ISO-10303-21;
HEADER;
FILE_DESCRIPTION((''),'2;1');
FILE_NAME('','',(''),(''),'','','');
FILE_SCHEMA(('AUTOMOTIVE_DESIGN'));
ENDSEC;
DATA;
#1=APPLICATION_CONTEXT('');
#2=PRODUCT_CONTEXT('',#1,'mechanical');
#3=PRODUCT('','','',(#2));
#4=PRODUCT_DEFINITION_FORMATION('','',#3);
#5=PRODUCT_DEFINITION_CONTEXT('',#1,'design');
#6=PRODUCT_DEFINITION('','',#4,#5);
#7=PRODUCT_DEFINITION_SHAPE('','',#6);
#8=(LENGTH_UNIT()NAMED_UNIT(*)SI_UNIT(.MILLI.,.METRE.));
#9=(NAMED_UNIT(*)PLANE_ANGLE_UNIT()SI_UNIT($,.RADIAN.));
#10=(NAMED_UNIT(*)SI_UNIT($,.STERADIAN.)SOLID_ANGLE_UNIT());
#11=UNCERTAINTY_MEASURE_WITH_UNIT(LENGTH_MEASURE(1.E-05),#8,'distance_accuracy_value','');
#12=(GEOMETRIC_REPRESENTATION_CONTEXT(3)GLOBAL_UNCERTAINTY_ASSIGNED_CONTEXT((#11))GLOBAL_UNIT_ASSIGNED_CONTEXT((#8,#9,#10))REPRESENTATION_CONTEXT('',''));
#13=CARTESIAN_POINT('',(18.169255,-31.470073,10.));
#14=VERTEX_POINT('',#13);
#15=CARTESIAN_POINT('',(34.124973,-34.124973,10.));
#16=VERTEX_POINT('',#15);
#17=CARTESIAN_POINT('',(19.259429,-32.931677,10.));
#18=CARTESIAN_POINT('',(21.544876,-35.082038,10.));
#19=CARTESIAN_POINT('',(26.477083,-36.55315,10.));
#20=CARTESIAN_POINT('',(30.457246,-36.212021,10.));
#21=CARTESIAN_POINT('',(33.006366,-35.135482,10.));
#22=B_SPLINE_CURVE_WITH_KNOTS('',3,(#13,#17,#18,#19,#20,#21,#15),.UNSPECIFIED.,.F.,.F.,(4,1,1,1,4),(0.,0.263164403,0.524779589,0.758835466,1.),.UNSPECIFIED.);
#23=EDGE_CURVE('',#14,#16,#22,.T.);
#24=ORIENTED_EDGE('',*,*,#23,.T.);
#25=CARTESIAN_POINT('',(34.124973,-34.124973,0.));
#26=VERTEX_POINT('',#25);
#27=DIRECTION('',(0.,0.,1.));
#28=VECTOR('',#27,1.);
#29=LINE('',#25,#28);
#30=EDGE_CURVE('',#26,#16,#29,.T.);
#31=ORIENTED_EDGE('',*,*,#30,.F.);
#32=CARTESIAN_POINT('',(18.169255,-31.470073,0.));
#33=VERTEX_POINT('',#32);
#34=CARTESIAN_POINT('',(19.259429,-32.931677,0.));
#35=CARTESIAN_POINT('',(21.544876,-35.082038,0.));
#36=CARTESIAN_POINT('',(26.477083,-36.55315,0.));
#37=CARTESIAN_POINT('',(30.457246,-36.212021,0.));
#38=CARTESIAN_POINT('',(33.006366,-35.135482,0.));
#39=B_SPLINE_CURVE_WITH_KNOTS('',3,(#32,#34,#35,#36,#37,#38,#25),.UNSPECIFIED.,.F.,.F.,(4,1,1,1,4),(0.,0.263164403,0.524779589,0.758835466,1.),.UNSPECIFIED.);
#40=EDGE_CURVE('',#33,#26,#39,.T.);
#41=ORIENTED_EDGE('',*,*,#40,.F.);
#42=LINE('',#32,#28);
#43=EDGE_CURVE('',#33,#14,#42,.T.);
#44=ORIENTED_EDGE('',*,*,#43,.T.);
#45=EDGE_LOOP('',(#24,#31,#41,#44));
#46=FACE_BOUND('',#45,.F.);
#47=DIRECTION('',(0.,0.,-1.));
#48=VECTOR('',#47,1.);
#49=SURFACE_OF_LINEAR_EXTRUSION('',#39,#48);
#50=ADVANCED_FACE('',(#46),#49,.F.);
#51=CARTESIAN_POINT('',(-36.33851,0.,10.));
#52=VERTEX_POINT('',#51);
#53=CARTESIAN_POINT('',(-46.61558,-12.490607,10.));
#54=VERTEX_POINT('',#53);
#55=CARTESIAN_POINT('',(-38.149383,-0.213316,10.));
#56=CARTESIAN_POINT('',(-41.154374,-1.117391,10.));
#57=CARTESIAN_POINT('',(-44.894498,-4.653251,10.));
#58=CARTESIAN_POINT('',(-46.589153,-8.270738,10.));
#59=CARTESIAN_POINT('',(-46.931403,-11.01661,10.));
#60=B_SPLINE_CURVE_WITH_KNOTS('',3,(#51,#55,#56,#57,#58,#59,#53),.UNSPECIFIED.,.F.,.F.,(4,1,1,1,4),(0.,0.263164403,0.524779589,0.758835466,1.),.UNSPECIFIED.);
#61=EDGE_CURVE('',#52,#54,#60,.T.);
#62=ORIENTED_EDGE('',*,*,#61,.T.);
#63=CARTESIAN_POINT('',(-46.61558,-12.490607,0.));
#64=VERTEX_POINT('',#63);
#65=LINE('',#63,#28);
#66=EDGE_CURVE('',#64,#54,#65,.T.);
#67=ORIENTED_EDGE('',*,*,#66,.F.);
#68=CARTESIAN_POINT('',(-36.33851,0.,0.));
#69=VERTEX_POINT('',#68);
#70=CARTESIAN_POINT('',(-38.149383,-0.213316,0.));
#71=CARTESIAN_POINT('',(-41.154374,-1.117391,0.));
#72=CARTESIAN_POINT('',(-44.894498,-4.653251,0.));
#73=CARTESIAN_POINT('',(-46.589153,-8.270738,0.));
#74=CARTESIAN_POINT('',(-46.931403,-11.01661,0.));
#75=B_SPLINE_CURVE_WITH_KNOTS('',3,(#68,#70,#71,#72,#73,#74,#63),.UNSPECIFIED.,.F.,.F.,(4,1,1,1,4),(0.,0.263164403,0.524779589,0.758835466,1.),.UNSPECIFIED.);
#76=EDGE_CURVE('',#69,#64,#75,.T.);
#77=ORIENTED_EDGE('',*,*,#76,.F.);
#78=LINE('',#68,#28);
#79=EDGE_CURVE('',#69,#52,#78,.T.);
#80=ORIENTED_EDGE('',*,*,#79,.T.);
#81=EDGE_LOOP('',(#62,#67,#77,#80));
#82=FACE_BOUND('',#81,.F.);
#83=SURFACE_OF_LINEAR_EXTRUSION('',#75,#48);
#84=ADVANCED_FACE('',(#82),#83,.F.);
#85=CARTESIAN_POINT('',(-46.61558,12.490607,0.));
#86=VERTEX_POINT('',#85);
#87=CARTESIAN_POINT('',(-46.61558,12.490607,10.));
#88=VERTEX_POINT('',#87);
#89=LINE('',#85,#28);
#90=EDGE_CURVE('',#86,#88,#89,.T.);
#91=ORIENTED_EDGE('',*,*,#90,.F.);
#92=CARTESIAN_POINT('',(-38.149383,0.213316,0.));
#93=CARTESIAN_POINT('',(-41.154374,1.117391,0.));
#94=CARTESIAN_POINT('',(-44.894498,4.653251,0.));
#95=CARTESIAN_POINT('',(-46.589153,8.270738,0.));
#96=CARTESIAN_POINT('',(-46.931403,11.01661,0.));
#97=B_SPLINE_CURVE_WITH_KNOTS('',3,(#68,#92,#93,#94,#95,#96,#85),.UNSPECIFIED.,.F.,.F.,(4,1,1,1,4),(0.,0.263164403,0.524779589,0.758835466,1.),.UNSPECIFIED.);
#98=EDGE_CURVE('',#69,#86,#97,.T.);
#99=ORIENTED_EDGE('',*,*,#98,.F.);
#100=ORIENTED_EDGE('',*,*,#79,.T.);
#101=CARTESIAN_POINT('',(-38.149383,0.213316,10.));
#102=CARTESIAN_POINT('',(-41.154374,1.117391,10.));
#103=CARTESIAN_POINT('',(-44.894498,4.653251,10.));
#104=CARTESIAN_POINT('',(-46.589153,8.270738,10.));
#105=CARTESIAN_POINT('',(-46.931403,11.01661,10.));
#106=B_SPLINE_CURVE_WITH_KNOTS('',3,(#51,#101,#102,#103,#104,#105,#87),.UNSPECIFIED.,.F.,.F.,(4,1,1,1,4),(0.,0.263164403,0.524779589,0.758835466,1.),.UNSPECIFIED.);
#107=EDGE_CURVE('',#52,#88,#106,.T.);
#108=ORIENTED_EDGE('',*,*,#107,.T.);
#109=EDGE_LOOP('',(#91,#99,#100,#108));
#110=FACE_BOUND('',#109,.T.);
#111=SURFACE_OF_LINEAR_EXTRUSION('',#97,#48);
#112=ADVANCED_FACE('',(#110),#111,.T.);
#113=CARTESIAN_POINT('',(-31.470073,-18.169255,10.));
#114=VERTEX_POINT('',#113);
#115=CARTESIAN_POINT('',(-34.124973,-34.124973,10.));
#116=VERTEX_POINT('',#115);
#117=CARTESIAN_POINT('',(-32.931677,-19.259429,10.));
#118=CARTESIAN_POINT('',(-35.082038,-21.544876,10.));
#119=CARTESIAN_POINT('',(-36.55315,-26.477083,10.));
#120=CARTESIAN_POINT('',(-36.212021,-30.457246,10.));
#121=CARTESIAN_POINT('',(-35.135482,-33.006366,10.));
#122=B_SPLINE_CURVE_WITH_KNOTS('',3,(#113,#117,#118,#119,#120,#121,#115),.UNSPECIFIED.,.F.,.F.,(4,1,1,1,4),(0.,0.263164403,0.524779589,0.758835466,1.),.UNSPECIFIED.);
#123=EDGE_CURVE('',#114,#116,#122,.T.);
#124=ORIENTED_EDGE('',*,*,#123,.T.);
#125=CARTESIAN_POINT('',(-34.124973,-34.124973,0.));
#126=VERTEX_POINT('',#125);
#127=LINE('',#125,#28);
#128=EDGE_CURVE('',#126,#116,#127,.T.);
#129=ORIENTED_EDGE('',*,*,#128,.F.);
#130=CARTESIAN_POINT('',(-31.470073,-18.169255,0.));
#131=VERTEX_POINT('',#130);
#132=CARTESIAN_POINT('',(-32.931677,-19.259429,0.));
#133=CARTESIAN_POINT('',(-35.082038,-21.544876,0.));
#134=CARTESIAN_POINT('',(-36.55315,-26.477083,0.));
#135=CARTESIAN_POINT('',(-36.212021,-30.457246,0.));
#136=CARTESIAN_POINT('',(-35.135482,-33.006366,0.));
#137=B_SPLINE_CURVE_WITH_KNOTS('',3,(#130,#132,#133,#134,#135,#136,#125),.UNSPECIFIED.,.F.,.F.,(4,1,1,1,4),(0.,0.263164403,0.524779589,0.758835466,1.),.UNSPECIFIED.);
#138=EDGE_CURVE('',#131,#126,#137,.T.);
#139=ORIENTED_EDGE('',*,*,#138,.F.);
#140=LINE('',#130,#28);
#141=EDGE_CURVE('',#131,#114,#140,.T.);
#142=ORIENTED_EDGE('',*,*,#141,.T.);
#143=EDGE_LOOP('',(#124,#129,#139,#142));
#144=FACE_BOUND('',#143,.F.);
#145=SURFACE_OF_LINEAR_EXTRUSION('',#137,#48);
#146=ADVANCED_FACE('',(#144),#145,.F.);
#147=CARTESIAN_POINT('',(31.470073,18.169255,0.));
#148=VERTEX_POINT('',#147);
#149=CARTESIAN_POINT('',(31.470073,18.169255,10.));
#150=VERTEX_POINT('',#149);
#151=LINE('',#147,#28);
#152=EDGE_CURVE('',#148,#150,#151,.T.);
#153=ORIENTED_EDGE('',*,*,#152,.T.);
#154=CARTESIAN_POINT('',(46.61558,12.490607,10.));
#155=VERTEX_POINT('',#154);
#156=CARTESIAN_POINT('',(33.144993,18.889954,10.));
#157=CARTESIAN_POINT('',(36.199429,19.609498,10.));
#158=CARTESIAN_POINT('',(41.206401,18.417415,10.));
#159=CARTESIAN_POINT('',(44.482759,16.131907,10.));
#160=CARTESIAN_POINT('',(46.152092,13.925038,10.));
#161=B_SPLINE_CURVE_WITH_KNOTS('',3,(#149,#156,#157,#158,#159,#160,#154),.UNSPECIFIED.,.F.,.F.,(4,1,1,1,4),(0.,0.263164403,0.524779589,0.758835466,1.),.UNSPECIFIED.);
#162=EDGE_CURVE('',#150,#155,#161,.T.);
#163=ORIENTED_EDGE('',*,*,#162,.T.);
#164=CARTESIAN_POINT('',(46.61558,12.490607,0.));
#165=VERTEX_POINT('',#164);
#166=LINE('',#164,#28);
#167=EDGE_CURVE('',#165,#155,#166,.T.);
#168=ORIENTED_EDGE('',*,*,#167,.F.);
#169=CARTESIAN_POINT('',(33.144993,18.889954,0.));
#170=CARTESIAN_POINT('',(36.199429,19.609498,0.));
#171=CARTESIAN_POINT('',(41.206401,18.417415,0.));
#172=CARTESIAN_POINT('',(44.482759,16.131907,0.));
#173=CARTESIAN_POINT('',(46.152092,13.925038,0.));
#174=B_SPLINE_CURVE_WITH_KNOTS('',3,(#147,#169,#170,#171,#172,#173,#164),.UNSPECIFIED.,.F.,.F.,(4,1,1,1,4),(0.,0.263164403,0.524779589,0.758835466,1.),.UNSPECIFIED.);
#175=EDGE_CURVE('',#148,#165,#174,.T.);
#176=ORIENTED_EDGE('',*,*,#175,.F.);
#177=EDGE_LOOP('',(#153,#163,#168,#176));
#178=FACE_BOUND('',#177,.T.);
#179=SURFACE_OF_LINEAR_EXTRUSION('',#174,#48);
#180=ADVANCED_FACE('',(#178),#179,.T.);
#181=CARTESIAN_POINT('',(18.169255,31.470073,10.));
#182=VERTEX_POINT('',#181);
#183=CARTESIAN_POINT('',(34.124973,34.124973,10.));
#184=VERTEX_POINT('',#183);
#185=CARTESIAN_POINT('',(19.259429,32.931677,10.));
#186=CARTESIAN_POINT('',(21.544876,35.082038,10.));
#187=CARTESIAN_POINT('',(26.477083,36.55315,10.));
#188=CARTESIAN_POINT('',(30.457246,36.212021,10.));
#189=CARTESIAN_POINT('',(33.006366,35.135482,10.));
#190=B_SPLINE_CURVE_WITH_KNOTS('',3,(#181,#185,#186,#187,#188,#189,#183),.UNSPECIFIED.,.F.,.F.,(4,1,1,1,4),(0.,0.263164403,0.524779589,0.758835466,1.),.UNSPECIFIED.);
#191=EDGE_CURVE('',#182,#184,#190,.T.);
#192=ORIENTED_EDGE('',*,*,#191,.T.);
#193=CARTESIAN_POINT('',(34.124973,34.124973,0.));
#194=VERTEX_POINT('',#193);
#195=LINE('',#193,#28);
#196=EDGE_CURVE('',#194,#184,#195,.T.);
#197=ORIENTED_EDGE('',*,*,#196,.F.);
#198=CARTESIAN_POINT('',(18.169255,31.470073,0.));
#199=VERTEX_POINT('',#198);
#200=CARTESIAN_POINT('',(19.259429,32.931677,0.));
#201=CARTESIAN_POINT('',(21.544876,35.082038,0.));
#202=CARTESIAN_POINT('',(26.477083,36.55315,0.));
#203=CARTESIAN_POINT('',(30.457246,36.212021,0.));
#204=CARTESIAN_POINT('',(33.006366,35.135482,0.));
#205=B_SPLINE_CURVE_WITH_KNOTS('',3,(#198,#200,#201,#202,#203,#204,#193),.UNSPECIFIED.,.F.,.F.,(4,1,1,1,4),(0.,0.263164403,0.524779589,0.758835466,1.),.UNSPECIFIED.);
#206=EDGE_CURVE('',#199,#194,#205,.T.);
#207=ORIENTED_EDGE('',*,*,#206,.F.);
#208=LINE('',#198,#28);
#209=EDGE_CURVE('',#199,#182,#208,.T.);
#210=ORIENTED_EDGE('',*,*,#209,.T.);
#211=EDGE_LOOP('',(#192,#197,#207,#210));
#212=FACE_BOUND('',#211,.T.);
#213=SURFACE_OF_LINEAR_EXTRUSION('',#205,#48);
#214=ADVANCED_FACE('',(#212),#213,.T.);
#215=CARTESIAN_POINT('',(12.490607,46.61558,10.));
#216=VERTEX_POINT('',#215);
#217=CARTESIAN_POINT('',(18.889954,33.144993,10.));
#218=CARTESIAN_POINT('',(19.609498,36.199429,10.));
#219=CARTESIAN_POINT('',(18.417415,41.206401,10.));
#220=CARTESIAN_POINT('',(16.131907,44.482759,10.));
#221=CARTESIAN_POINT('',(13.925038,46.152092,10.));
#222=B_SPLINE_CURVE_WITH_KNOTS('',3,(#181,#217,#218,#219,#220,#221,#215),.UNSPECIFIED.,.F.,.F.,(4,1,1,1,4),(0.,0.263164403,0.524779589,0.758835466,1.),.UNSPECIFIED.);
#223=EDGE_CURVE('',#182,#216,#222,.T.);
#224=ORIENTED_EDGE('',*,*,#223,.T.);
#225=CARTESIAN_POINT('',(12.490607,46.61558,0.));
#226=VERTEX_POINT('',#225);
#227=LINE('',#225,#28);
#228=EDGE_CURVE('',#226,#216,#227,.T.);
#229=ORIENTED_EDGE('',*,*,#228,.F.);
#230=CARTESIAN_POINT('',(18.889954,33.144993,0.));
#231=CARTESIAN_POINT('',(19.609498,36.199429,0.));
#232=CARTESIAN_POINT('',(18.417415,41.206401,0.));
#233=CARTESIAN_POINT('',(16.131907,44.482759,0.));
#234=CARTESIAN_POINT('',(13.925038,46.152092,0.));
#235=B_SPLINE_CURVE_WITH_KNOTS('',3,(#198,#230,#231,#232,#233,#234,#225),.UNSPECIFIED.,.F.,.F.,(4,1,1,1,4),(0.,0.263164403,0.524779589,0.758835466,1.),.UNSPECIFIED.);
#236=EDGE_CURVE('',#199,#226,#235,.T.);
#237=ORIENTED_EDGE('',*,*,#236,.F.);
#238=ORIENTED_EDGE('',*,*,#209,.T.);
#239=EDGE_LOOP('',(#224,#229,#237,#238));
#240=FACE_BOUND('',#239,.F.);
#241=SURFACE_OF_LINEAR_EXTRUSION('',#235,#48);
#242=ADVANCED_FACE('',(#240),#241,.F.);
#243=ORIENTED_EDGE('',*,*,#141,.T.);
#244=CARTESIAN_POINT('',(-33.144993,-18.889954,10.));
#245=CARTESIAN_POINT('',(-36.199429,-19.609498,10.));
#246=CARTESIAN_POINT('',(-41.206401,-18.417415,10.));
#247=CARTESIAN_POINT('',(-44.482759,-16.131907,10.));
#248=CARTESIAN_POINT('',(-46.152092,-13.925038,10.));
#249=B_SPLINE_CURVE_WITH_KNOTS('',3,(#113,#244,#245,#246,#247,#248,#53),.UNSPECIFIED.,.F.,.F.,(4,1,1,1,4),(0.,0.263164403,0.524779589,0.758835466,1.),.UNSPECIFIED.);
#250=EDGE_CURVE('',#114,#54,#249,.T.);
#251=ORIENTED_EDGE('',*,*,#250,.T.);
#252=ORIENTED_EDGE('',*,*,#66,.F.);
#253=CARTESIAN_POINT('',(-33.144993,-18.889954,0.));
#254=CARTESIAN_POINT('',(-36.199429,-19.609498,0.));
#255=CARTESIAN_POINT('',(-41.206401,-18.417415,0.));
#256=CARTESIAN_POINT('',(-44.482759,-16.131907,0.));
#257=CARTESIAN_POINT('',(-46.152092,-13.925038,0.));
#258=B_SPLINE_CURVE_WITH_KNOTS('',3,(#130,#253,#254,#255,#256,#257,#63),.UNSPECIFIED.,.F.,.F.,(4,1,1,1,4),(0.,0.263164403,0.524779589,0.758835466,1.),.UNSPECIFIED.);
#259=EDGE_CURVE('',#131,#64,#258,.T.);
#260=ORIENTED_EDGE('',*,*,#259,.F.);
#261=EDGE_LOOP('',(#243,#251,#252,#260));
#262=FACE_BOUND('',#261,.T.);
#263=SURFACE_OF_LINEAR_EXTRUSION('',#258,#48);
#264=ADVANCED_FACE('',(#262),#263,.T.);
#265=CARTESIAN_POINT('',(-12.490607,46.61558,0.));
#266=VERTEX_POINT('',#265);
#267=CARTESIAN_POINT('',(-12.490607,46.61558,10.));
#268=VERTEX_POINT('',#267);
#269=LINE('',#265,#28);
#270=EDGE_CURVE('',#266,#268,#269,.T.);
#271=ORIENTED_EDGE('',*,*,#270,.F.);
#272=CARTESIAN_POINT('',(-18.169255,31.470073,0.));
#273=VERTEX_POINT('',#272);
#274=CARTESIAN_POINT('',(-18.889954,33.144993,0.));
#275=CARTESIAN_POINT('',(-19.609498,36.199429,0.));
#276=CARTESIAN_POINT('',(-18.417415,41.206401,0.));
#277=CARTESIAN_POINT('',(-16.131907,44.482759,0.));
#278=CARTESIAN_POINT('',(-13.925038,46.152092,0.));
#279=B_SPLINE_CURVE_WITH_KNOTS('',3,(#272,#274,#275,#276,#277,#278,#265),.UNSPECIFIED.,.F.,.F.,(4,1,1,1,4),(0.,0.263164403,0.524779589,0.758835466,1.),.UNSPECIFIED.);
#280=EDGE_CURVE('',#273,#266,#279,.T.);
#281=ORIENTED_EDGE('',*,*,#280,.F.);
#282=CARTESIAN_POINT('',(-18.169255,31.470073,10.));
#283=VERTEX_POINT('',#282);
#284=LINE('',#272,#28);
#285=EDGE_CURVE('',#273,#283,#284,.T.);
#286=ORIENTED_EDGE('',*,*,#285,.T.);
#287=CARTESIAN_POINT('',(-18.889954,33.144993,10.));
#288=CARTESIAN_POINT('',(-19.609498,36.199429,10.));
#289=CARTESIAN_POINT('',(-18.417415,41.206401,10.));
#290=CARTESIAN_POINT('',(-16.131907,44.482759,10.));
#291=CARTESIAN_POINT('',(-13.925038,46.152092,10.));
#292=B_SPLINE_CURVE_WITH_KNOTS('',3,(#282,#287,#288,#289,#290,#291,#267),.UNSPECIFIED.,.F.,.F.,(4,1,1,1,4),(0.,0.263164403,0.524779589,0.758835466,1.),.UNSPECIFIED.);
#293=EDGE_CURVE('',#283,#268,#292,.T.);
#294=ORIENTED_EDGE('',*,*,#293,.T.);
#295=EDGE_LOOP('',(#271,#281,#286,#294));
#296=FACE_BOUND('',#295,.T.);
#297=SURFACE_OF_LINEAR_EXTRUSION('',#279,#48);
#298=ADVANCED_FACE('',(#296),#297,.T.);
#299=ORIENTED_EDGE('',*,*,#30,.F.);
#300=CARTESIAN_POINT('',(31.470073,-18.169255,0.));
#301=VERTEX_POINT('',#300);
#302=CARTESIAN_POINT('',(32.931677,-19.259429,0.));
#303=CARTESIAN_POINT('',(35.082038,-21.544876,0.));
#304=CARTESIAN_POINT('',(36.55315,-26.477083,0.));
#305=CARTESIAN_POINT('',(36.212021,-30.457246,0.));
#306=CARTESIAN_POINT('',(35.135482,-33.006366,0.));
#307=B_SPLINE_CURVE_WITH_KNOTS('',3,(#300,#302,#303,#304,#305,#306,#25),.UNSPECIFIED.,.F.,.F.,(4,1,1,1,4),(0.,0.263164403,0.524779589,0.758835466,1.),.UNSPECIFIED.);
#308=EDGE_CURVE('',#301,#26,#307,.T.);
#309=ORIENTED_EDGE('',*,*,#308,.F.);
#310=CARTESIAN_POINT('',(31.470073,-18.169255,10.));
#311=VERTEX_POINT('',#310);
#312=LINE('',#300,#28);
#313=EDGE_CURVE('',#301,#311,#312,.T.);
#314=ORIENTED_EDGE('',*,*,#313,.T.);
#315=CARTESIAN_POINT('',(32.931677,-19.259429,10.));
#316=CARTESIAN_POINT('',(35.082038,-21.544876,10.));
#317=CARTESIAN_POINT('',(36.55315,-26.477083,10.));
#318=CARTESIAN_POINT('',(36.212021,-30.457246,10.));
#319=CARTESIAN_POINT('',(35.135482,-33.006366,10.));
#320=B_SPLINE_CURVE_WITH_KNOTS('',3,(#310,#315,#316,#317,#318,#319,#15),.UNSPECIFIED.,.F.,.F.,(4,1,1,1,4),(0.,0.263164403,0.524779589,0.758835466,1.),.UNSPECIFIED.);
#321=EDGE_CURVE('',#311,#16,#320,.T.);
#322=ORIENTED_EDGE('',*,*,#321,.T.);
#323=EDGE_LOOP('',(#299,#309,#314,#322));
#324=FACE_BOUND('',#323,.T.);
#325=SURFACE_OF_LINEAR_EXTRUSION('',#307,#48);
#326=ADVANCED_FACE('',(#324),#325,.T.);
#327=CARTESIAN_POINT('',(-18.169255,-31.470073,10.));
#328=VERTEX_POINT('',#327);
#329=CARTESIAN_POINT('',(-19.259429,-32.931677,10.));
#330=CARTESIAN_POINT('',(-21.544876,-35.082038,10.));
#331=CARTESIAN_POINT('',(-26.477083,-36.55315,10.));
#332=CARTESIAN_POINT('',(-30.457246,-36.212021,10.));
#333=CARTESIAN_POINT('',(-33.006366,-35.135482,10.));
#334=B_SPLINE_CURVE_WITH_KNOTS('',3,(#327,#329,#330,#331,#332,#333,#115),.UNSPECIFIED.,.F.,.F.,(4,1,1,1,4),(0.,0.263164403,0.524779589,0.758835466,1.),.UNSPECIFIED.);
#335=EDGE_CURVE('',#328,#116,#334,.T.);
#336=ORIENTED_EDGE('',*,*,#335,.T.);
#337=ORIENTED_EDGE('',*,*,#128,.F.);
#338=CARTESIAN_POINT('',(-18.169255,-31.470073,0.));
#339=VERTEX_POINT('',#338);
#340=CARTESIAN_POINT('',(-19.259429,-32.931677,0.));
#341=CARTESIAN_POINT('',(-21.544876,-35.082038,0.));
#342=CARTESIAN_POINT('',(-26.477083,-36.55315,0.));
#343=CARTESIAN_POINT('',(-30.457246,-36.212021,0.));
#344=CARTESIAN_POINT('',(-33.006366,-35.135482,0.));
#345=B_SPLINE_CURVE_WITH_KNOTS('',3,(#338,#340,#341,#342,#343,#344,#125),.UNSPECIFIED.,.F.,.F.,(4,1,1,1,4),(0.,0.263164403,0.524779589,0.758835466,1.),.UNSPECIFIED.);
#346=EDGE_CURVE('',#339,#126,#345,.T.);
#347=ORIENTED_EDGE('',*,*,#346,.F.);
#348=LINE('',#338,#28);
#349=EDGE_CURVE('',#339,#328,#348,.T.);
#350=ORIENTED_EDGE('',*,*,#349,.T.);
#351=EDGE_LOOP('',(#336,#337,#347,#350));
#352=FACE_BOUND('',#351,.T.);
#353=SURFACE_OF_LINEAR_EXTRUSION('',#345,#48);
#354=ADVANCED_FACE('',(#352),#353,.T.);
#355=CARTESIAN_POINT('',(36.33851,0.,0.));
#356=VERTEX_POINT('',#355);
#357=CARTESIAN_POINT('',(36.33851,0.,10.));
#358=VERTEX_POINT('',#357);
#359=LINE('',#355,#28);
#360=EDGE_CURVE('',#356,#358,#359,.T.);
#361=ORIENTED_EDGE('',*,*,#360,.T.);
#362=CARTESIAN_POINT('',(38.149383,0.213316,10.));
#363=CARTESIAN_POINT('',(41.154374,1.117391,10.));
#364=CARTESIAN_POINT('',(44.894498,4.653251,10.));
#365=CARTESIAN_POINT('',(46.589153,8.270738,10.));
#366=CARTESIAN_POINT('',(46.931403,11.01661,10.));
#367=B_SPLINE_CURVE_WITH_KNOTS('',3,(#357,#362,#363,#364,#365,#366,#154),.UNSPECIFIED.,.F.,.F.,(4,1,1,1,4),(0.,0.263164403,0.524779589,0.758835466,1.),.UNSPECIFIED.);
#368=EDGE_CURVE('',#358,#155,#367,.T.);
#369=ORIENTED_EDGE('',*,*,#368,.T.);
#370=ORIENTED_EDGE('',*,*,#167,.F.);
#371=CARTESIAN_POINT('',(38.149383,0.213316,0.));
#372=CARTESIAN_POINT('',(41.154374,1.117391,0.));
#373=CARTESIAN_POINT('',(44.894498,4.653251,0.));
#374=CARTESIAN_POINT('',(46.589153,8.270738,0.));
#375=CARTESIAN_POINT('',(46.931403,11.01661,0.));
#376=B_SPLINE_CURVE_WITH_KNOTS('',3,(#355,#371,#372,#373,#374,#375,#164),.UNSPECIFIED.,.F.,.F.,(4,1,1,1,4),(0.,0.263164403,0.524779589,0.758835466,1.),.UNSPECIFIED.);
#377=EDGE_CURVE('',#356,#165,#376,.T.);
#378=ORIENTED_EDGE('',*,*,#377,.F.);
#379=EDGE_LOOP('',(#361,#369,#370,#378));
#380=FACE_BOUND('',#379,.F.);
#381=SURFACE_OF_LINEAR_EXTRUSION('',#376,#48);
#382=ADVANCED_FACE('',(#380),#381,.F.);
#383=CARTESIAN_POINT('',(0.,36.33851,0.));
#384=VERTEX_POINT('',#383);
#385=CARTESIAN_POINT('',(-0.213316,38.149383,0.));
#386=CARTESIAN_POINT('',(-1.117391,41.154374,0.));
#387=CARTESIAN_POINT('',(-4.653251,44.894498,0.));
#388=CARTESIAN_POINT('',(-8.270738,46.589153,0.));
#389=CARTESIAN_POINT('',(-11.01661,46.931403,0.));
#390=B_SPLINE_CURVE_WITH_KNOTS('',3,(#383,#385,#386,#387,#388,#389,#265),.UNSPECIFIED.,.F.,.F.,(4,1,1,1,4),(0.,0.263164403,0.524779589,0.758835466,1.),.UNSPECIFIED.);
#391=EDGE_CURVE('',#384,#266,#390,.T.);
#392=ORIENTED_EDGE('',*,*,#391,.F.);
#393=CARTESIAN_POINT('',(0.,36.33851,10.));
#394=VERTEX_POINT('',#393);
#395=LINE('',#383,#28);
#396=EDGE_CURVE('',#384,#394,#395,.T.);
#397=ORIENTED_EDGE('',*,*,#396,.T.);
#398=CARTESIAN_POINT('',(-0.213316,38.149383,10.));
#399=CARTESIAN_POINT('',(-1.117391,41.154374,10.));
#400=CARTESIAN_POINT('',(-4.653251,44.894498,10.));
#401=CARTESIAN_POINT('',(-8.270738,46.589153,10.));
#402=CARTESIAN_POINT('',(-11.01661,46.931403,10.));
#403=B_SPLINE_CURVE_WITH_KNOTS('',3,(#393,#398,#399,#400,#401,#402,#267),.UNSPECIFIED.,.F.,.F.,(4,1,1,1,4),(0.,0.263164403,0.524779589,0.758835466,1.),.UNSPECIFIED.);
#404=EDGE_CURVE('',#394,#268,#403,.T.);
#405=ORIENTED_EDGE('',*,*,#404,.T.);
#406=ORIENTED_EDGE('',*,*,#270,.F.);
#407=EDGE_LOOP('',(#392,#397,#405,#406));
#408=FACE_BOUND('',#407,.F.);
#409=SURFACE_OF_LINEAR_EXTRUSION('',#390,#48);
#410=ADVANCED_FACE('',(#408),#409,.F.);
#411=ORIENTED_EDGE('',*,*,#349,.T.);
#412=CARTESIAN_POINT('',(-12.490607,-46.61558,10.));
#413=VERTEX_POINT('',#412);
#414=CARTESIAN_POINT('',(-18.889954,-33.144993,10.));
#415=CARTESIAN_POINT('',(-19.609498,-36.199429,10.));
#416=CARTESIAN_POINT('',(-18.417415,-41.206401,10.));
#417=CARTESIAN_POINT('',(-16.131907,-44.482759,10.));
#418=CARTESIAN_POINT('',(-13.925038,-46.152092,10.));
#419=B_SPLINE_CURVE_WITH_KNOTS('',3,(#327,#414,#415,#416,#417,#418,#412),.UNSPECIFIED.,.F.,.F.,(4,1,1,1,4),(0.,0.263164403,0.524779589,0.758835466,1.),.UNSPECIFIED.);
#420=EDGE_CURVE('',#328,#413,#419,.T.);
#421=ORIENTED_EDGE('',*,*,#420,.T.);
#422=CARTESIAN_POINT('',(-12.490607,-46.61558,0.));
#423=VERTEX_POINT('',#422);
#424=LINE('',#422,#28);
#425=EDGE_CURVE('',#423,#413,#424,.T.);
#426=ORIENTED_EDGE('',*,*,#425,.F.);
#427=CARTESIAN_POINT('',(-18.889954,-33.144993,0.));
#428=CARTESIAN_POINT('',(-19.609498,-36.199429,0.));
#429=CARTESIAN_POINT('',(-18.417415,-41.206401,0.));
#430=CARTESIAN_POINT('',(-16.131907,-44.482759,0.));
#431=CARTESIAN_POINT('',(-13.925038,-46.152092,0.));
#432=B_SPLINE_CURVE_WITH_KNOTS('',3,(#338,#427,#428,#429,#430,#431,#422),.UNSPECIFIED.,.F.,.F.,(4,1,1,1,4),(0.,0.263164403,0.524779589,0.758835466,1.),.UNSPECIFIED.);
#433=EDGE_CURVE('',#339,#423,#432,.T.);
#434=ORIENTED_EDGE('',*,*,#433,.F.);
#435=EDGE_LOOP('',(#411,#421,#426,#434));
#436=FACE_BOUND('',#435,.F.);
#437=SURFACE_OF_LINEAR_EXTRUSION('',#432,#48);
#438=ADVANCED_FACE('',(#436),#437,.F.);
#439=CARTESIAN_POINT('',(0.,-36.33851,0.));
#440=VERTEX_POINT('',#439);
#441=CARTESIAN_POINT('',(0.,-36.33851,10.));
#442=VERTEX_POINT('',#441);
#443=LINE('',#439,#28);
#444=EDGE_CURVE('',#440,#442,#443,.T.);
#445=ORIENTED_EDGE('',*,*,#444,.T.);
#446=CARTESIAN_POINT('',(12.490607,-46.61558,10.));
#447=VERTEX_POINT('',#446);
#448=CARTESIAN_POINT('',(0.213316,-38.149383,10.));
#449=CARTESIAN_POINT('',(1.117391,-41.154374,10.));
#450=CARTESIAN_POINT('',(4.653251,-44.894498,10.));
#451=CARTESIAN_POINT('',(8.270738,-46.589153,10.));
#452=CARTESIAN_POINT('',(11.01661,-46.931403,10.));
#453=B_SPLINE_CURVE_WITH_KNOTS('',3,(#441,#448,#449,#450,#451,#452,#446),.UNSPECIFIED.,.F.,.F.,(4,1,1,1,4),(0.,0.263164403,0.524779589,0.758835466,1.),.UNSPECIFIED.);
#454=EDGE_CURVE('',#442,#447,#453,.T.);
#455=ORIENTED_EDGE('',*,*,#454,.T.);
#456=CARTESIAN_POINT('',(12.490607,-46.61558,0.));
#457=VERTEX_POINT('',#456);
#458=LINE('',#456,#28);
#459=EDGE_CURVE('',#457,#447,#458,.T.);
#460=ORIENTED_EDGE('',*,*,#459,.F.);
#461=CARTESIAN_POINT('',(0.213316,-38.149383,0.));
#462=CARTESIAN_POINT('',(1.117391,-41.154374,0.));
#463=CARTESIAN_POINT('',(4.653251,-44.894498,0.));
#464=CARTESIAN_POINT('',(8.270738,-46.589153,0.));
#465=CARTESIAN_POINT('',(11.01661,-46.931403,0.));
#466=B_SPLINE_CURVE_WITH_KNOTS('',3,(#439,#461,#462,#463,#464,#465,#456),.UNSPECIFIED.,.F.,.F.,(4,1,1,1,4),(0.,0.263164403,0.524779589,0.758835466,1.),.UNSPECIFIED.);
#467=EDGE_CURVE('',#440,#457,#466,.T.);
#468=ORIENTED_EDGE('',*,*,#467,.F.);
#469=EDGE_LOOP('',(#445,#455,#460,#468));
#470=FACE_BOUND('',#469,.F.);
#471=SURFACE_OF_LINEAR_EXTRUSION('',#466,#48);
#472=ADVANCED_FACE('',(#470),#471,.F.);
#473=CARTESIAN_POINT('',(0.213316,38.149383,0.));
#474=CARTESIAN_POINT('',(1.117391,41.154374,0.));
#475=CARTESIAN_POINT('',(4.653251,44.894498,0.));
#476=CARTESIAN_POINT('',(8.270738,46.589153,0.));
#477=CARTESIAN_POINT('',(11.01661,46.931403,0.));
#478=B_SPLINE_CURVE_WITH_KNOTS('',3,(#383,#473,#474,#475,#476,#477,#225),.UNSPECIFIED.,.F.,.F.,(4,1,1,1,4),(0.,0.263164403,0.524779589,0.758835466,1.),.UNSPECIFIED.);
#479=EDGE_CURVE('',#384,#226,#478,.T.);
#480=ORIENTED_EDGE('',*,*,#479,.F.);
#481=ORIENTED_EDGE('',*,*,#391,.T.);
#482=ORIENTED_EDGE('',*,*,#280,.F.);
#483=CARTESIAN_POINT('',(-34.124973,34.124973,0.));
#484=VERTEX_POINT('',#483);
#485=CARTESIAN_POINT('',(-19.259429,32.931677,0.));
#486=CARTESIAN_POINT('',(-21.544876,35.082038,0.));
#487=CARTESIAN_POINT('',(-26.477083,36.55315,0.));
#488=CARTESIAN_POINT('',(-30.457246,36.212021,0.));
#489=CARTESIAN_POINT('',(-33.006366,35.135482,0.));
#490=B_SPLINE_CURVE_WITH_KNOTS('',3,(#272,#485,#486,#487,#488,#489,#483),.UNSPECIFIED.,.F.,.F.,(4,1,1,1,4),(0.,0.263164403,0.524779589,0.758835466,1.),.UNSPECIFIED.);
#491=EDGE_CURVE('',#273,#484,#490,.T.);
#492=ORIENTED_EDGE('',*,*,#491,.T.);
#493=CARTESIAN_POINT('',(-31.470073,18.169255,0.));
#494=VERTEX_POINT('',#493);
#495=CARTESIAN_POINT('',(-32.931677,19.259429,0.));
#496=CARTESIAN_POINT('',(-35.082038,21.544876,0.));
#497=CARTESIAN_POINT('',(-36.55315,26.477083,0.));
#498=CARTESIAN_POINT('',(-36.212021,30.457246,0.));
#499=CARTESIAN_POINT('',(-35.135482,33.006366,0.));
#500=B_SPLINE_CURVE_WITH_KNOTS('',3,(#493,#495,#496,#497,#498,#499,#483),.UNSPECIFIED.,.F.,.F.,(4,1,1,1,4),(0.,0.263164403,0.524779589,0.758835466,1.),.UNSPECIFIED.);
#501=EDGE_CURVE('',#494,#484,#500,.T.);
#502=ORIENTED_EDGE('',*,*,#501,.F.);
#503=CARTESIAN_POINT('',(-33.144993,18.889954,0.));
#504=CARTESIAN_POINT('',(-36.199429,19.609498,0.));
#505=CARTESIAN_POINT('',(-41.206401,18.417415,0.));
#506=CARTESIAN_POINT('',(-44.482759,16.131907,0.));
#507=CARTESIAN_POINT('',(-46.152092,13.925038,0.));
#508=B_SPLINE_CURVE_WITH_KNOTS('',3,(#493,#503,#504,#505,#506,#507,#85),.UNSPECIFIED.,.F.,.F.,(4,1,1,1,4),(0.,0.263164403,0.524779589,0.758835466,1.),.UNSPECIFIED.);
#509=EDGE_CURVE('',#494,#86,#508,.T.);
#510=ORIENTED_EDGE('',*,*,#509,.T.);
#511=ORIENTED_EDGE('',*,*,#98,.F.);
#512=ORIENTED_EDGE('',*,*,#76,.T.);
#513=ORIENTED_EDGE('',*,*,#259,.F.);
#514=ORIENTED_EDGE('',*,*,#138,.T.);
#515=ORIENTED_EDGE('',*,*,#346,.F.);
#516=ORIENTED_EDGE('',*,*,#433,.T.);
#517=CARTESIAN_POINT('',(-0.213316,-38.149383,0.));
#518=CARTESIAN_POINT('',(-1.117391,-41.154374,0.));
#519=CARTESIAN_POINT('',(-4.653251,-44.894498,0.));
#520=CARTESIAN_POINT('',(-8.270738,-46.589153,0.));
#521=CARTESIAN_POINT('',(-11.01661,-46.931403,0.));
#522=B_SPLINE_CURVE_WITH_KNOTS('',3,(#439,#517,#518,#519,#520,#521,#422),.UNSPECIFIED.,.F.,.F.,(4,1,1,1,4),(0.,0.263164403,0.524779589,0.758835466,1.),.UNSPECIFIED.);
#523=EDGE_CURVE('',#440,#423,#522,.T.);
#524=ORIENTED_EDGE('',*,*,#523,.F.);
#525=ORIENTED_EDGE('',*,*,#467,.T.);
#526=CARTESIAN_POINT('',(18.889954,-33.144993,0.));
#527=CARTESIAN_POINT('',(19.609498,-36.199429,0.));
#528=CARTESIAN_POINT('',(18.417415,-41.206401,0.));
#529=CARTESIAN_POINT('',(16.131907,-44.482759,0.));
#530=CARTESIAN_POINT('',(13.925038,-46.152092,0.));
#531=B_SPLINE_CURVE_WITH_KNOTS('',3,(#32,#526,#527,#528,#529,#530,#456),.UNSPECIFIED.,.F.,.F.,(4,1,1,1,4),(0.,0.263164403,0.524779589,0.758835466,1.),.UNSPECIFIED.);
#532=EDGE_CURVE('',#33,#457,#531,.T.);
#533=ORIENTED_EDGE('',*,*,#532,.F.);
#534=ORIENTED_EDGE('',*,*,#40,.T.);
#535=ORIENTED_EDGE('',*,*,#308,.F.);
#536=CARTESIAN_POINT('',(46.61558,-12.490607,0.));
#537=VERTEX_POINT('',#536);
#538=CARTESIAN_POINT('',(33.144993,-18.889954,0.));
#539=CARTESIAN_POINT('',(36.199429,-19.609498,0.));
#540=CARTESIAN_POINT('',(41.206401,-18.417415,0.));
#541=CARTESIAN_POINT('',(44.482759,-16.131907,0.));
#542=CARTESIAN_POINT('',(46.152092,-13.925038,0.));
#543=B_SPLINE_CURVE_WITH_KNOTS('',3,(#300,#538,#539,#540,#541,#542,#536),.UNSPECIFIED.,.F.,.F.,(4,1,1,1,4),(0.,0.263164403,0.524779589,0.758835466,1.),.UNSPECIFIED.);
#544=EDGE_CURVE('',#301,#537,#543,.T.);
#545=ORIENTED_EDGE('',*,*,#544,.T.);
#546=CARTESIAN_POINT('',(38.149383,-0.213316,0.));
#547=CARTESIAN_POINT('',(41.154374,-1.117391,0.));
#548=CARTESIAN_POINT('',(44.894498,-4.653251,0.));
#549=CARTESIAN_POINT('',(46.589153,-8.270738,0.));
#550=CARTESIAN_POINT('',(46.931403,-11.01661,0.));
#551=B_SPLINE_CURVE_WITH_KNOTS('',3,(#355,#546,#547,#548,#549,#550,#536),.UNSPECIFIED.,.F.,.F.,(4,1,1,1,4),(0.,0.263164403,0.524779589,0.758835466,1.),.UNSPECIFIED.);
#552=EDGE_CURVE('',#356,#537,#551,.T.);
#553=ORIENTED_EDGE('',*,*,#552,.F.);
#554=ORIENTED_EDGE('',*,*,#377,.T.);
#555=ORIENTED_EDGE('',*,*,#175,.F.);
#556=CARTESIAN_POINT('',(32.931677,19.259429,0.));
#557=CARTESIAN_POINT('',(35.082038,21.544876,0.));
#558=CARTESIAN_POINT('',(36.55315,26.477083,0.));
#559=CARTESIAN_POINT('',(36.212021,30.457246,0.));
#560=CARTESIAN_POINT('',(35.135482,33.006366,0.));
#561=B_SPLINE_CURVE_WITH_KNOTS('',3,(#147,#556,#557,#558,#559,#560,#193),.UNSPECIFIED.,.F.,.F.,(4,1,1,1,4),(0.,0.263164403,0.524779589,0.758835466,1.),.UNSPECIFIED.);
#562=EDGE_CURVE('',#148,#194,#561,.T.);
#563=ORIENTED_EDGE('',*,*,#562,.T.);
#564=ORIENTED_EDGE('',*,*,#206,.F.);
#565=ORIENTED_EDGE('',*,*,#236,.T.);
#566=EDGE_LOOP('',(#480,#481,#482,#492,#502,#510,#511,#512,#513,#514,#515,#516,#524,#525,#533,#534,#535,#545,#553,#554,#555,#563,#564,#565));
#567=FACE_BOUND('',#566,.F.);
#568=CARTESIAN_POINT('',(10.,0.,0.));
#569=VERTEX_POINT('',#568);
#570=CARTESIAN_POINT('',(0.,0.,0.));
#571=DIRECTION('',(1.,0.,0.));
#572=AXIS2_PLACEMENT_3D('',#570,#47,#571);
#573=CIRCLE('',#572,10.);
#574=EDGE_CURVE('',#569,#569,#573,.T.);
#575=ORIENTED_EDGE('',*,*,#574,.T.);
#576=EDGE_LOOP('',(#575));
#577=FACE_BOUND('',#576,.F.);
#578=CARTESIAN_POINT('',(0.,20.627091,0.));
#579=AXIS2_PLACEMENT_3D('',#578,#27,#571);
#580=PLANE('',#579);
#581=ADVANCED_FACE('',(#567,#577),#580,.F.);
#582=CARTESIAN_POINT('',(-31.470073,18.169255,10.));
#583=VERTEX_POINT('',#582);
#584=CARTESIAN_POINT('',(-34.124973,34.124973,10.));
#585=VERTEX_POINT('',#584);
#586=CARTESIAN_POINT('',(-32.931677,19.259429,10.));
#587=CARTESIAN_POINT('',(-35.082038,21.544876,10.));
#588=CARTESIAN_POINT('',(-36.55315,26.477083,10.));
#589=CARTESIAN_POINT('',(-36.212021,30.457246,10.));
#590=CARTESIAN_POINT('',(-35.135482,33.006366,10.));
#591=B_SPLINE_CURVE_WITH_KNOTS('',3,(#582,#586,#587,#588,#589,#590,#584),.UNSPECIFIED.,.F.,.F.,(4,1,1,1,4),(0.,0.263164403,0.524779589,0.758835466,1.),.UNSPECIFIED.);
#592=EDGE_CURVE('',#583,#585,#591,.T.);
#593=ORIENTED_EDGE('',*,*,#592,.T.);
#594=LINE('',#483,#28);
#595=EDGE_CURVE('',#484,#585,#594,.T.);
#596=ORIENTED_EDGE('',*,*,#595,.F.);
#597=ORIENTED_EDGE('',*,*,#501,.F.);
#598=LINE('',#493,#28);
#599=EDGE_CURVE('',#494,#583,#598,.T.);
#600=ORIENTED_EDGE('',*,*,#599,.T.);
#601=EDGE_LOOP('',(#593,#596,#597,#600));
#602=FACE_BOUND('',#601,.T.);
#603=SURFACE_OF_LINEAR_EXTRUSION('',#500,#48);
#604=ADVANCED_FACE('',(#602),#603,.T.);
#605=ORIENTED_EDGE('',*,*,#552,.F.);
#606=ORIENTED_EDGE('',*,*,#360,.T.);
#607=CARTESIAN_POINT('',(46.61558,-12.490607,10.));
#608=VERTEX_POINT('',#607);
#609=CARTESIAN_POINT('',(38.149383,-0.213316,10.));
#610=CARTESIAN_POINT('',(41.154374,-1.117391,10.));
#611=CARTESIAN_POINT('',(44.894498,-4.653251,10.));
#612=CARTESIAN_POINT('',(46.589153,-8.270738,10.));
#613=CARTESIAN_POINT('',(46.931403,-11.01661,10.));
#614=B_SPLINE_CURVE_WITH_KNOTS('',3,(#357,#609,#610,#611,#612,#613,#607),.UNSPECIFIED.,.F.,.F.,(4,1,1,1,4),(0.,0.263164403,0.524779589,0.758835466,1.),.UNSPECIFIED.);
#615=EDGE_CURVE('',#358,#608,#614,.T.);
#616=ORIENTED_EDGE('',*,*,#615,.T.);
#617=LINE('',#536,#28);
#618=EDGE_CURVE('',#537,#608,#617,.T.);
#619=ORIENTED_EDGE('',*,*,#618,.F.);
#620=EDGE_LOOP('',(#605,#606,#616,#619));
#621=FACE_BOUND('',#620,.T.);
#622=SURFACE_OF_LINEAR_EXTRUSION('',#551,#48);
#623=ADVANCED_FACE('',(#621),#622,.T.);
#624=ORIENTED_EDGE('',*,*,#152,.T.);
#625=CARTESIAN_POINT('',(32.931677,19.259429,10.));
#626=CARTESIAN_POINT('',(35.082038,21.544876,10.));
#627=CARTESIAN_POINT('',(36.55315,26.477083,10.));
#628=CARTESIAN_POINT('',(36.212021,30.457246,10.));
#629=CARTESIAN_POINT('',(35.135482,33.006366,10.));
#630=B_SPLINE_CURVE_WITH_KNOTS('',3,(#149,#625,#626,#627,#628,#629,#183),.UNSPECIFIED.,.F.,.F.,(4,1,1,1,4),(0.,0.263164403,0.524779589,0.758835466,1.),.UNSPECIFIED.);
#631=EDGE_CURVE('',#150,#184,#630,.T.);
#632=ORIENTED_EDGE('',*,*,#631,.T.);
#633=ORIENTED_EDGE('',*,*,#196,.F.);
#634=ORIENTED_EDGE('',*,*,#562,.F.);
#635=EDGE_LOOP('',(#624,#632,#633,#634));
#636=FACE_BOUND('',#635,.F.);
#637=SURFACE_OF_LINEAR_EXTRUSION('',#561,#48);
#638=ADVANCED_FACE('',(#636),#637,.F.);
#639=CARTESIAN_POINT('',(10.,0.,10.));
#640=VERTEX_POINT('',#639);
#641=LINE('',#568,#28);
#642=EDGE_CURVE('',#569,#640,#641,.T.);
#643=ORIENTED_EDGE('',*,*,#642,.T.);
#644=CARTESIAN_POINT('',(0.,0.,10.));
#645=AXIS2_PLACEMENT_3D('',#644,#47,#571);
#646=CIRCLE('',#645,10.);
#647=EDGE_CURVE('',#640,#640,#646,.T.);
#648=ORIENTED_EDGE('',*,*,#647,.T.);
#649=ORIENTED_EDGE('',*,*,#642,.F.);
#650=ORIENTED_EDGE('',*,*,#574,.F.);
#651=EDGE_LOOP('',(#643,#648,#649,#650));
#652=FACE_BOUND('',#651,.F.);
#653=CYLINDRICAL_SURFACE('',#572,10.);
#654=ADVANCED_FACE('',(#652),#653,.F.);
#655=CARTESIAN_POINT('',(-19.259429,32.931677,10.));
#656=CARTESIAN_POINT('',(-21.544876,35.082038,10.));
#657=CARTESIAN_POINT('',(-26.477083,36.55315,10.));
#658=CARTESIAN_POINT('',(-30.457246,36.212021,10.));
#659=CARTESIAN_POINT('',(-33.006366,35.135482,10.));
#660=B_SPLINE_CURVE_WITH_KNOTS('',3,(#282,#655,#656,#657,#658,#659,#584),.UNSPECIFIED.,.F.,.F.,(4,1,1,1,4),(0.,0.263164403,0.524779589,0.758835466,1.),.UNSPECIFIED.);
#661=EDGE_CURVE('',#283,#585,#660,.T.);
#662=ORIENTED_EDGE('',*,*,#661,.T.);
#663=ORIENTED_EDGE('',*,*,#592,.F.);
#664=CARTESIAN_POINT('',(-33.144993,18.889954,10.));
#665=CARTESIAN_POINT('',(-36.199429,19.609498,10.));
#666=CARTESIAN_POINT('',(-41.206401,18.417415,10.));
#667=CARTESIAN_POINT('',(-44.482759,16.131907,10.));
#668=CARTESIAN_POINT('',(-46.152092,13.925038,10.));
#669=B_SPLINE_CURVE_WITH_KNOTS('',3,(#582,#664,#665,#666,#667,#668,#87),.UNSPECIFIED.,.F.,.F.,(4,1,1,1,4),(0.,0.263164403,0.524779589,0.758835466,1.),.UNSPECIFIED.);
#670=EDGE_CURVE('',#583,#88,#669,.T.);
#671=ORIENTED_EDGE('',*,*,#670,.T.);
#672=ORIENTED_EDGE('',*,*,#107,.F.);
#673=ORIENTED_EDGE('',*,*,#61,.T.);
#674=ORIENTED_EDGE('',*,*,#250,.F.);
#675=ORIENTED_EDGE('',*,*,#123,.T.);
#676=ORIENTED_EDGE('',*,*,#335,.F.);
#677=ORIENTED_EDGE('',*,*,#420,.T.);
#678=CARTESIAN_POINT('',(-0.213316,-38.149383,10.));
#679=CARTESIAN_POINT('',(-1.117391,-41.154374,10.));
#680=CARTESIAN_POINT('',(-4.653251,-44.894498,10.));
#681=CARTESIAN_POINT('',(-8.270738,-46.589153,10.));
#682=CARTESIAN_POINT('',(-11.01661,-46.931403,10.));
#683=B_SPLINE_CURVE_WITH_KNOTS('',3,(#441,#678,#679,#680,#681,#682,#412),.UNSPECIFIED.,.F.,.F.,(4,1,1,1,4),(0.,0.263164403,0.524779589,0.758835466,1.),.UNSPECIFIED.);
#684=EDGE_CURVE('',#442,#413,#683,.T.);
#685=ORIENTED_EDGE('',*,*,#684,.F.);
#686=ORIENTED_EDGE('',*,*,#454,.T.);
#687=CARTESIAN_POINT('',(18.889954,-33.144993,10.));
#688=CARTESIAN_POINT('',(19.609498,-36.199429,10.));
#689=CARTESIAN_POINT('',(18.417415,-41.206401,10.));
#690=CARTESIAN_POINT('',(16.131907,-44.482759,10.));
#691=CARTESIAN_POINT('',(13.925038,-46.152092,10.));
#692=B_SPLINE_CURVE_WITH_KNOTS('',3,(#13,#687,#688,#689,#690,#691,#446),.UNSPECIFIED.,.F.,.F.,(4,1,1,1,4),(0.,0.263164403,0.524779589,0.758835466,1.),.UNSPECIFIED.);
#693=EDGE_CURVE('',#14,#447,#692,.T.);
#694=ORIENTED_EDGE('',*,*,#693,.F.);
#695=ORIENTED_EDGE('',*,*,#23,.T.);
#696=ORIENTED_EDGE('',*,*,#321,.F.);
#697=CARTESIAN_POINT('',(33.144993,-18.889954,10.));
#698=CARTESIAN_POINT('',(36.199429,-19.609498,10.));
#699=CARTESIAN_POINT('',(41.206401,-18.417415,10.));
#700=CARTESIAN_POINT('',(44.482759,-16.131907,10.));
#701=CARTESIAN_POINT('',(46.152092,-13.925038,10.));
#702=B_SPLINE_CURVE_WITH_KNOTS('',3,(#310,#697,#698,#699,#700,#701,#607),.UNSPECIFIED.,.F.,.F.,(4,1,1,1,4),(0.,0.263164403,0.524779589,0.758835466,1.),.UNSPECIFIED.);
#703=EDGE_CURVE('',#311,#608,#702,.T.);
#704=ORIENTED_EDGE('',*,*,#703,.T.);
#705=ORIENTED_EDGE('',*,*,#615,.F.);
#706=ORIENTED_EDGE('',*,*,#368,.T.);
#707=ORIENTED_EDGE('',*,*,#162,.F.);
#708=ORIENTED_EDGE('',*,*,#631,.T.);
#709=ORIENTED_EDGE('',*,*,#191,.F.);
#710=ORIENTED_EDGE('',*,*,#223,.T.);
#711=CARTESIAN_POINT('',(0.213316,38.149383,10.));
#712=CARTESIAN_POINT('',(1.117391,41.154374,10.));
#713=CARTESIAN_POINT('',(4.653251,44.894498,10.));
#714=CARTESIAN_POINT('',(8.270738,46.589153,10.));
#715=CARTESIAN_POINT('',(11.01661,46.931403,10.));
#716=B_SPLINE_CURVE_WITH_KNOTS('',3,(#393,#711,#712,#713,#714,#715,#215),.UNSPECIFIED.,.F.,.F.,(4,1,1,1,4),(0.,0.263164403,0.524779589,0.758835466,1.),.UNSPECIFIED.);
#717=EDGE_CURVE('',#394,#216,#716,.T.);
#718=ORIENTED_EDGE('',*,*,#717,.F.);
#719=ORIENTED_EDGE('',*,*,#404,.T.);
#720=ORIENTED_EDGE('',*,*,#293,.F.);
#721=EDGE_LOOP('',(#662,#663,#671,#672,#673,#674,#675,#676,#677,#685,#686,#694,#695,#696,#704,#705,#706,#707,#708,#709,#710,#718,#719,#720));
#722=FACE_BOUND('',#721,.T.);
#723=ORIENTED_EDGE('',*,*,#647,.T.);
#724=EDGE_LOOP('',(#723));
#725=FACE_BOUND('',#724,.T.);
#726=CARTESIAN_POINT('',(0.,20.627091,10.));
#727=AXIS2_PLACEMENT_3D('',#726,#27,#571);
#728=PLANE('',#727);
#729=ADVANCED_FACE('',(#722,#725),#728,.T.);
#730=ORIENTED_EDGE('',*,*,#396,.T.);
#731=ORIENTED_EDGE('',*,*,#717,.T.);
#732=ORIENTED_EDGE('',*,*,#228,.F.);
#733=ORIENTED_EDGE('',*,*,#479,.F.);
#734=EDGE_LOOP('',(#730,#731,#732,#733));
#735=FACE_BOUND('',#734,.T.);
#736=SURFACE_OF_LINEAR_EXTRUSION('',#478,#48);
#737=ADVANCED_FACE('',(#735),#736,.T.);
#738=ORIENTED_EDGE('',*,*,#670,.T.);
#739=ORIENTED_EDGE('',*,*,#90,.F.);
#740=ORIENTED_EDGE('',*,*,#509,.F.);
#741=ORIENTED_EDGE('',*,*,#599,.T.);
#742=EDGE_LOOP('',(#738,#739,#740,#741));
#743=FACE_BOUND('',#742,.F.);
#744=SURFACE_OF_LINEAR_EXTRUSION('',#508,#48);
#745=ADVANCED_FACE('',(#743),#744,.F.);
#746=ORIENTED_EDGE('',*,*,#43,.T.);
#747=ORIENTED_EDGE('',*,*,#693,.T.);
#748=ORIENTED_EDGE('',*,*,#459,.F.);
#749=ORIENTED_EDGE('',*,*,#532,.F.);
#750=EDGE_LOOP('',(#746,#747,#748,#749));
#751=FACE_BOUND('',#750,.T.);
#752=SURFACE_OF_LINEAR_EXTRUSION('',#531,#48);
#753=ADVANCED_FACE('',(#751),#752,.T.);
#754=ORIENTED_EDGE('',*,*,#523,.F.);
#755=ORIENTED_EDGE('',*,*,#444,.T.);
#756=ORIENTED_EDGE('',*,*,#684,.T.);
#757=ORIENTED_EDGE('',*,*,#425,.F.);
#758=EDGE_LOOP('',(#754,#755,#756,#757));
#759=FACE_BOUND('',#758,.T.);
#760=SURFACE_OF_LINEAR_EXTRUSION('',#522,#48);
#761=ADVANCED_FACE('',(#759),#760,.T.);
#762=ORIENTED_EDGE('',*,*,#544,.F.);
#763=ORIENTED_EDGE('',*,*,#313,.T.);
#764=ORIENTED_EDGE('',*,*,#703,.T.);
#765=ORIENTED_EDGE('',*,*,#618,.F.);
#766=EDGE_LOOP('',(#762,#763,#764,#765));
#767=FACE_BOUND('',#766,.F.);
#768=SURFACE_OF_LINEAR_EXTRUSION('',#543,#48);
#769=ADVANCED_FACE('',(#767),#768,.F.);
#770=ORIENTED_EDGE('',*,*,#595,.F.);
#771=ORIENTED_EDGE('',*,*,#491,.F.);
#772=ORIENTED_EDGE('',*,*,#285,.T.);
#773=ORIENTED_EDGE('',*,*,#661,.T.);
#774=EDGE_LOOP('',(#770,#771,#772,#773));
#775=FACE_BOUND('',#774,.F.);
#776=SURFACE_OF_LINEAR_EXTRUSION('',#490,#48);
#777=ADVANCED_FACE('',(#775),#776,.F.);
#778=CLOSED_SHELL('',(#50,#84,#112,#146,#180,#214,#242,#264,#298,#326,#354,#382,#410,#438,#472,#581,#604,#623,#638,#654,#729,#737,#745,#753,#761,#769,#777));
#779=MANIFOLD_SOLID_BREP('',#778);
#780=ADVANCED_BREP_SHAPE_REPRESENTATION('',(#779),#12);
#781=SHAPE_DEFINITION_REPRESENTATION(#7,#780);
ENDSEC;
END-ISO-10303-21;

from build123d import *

# Parameters (mm, degrees)
F1_DEPTH = 10


with BuildPart() as f1:
    # F0 (on Top) → F1 (new body)
    with BuildSketch(Plane.XY):
        with BuildLine():
            ThreePointArc((-10, 0), (0, 10), (10, 0))
            Line((10, 0), (36.3385102814, 0))
            add(Edge.make_bspline(
                [(36.3385102814, 0), (38.1493832545, 0.2133160809), (41.1543741544, 1.1173907107), (44.8944975107, 4.6532514581), (46.5891533047, 8.2707380904), (46.9314032298, 11.0166099485), (46.6155803767, 12.4906071166)],
                knots=[0, 0, 0, 0, 0.2631644028, 0.5247795892, 0.7588354663, 1, 1, 1, 1], degree=3))
            add(Edge.make_bspline(
                [(31.4700730394, 18.1692551407), (33.1449930775, 18.8899544822), (36.1994288499, 19.6094983358), (41.2064010634, 18.4174147824), (44.4827593479, 16.131907358), (46.1520924066, 13.9250375359), (46.6155803767, 12.4906071166)],
                knots=[0, 0, 0, 0, 0.2631644028, 0.5247795892, 0.7588354663, 1, 1, 1, 1], degree=3))
            add(Edge.make_bspline(
                [(31.4700730394, 18.1692551407), (32.9316769966, 19.2594287723), (35.0820381392, 21.5448758186), (36.5531496053, 26.4770827283), (36.2120212575, 30.4572459467), (35.135482458, 33.0063656939), (34.1249732601, 34.1249732601)],
                knots=[0, 0, 0, 0, 0.2631644028, 0.5247795892, 0.7588354663, 1, 1, 1, 1], degree=3))
            add(Edge.make_bspline(
                [(18.1692551407, 31.4700730394), (19.2594287723, 32.9316769966), (21.5448758186, 35.0820381392), (26.4770827283, 36.5531496053), (30.4572459467, 36.2120212575), (33.0063656939, 35.135482458), (34.1249732601, 34.1249732601)],
                knots=[0, 0, 0, 0, 0.2631644028, 0.5247795892, 0.7588354663, 1, 1, 1, 1], degree=3))
            add(Edge.make_bspline(
                [(18.1692551407, 31.4700730394), (18.8899544822, 33.1449930775), (19.6094983358, 36.1994288499), (18.4174147824, 41.2064010634), (16.131907358, 44.4827593479), (13.9250375359, 46.1520924066), (12.4906071166, 46.6155803767)],
                knots=[0, 0, 0, 0, 0.2631644028, 0.5247795892, 0.7588354663, 1, 1, 1, 1], degree=3))
            add(Edge.make_bspline(
                [(0, 36.3385102814), (0.2133160809, 38.1493832545), (1.1173907107, 41.1543741544), (4.6532514581, 44.8944975107), (8.2707380904, 46.5891533047), (11.0166099485, 46.9314032298), (12.4906071166, 46.6155803767)],
                knots=[0, 0, 0, 0, 0.2631644028, 0.5247795892, 0.7588354663, 1, 1, 1, 1], degree=3))
            add(Edge.make_bspline(
                [(0, 36.3385102814), (-0.2133160809, 38.1493832545), (-1.1173907107, 41.1543741544), (-4.6532514581, 44.8944975107), (-8.2707380904, 46.5891533047), (-11.0166099485, 46.9314032298), (-12.4906071166, 46.6155803767)],
                knots=[0, 0, 0, 0, 0.2631644028, 0.5247795892, 0.7588354663, 1, 1, 1, 1], degree=3))
            add(Edge.make_bspline(
                [(-18.1692551407, 31.4700730394), (-18.8899544822, 33.1449930775), (-19.6094983358, 36.1994288499), (-18.4174147824, 41.2064010634), (-16.131907358, 44.4827593479), (-13.9250375359, 46.1520924066), (-12.4906071166, 46.6155803767)],
                knots=[0, 0, 0, 0, 0.2631644028, 0.5247795892, 0.7588354663, 1, 1, 1, 1], degree=3))
            add(Edge.make_bspline(
                [(-18.1692551407, 31.4700730394), (-19.2594287723, 32.9316769966), (-21.5448758186, 35.0820381392), (-26.4770827283, 36.5531496053), (-30.4572459467, 36.2120212575), (-33.0063656939, 35.135482458), (-34.1249732601, 34.1249732601)],
                knots=[0, 0, 0, 0, 0.2631644028, 0.5247795892, 0.7588354663, 1, 1, 1, 1], degree=3))
            add(Edge.make_bspline(
                [(-31.4700730394, 18.1692551407), (-32.9316769966, 19.2594287723), (-35.0820381392, 21.5448758186), (-36.5531496053, 26.4770827283), (-36.2120212575, 30.4572459467), (-35.135482458, 33.0063656939), (-34.1249732601, 34.1249732601)],
                knots=[0, 0, 0, 0, 0.2631644028, 0.5247795892, 0.7588354663, 1, 1, 1, 1], degree=3))
            add(Edge.make_bspline(
                [(-31.4700730394, 18.1692551407), (-33.1449930775, 18.8899544822), (-36.1994288499, 19.6094983358), (-41.2064010634, 18.4174147824), (-44.4827593479, 16.131907358), (-46.1520924066, 13.9250375359), (-46.6155803767, 12.4906071166)],
                knots=[0, 0, 0, 0, 0.2631644028, 0.5247795892, 0.7588354663, 1, 1, 1, 1], degree=3))
            add(Edge.make_bspline(
                [(-36.3385102814, 0), (-38.1493832545, 0.2133160809), (-41.1543741544, 1.1173907107), (-44.8944975107, 4.6532514581), (-46.5891533047, 8.2707380904), (-46.9314032298, 11.0166099485), (-46.6155803767, 12.4906071166)],
                knots=[0, 0, 0, 0, 0.2631644028, 0.5247795892, 0.7588354663, 1, 1, 1, 1], degree=3))
            Line((-36.3385102814, 0), (-10, 0))
        make_face()
        with BuildLine():
            Line((36.3385102814, 0), (10, 0))
            ThreePointArc((10, 0), (0, -10), (-10, 0))
            Line((-10, 0), (-36.3385102814, 0))
            add(Edge.make_bspline(
                [(-36.3385102814, 0), (-38.1493832545, -0.2133160809), (-41.1543741544, -1.1173907107), (-44.8944975107, -4.6532514581), (-46.5891533047, -8.2707380904), (-46.9314032298, -11.0166099485), (-46.6155803767, -12.4906071166)],
                knots=[0, 0, 0, 0, 0.2631644028, 0.5247795892, 0.7588354663, 1, 1, 1, 1], degree=3))
            add(Edge.make_bspline(
                [(-31.4700730394, -18.1692551407), (-33.1449930775, -18.8899544822), (-36.1994288499, -19.6094983358), (-41.2064010634, -18.4174147824), (-44.4827593479, -16.131907358), (-46.1520924066, -13.9250375359), (-46.6155803767, -12.4906071166)],
                knots=[0, 0, 0, 0, 0.2631644028, 0.5247795892, 0.7588354663, 1, 1, 1, 1], degree=3))
            add(Edge.make_bspline(
                [(-31.4700730394, -18.1692551407), (-32.9316769966, -19.2594287723), (-35.0820381392, -21.5448758186), (-36.5531496053, -26.4770827283), (-36.2120212575, -30.4572459467), (-35.135482458, -33.0063656939), (-34.1249732601, -34.1249732601)],
                knots=[0, 0, 0, 0, 0.2631644028, 0.5247795892, 0.7588354663, 1, 1, 1, 1], degree=3))
            add(Edge.make_bspline(
                [(-18.1692551407, -31.4700730394), (-19.2594287723, -32.9316769966), (-21.5448758186, -35.0820381392), (-26.4770827283, -36.5531496053), (-30.4572459467, -36.2120212575), (-33.0063656939, -35.135482458), (-34.1249732601, -34.1249732601)],
                knots=[0, 0, 0, 0, 0.2631644028, 0.5247795892, 0.7588354663, 1, 1, 1, 1], degree=3))
            add(Edge.make_bspline(
                [(-18.1692551407, -31.4700730394), (-18.8899544822, -33.1449930775), (-19.6094983358, -36.1994288499), (-18.4174147824, -41.2064010634), (-16.131907358, -44.4827593479), (-13.9250375359, -46.1520924066), (-12.4906071166, -46.6155803767)],
                knots=[0, 0, 0, 0, 0.2631644028, 0.5247795892, 0.7588354663, 1, 1, 1, 1], degree=3))
            add(Edge.make_bspline(
                [(0, -36.3385102814), (-0.2133160809, -38.1493832545), (-1.1173907107, -41.1543741544), (-4.6532514581, -44.8944975107), (-8.2707380904, -46.5891533047), (-11.0166099485, -46.9314032298), (-12.4906071166, -46.6155803767)],
                knots=[0, 0, 0, 0, 0.2631644028, 0.5247795892, 0.7588354663, 1, 1, 1, 1], degree=3))
            add(Edge.make_bspline(
                [(0, -36.3385102814), (0.2133160809, -38.1493832545), (1.1173907107, -41.1543741544), (4.6532514581, -44.8944975107), (8.2707380904, -46.5891533047), (11.0166099485, -46.9314032298), (12.4906071166, -46.6155803767)],
                knots=[0, 0, 0, 0, 0.2631644028, 0.5247795892, 0.7588354663, 1, 1, 1, 1], degree=3))
            add(Edge.make_bspline(
                [(18.1692551407, -31.4700730394), (18.8899544822, -33.1449930775), (19.6094983358, -36.1994288499), (18.4174147824, -41.2064010634), (16.131907358, -44.4827593479), (13.9250375359, -46.1520924066), (12.4906071166, -46.6155803767)],
                knots=[0, 0, 0, 0, 0.2631644028, 0.5247795892, 0.7588354663, 1, 1, 1, 1], degree=3))
            add(Edge.make_bspline(
                [(18.1692551407, -31.4700730394), (19.2594287723, -32.9316769966), (21.5448758186, -35.0820381392), (26.4770827283, -36.5531496053), (30.4572459467, -36.2120212575), (33.0063656939, -35.135482458), (34.1249732601, -34.1249732601)],
                knots=[0, 0, 0, 0, 0.2631644028, 0.5247795892, 0.7588354663, 1, 1, 1, 1], degree=3))
            add(Edge.make_bspline(
                [(31.4700730394, -18.1692551407), (32.9316769966, -19.2594287723), (35.0820381392, -21.5448758186), (36.5531496053, -26.4770827283), (36.2120212575, -30.4572459467), (35.135482458, -33.0063656939), (34.1249732601, -34.1249732601)],
                knots=[0, 0, 0, 0, 0.2631644028, 0.5247795892, 0.7588354663, 1, 1, 1, 1], degree=3))
            add(Edge.make_bspline(
                [(31.4700730394, -18.1692551407), (33.1449930775, -18.8899544822), (36.1994288499, -19.6094983358), (41.2064010634, -18.4174147824), (44.4827593479, -16.131907358), (46.1520924066, -13.9250375359), (46.6155803767, -12.4906071166)],
                knots=[0, 0, 0, 0, 0.2631644028, 0.5247795892, 0.7588354663, 1, 1, 1, 1], degree=3))
            add(Edge.make_bspline(
                [(36.3385102814, 0), (38.1493832545, -0.2133160809), (41.1543741544, -1.1173907107), (44.8944975107, -4.6532514581), (46.5891533047, -8.2707380904), (46.9314032298, -11.0166099485), (46.6155803767, -12.4906071166)],
                knots=[0, 0, 0, 0, 0.2631644028, 0.5247795892, 0.7588354663, 1, 1, 1, 1], degree=3))
        make_face()
    extrude(amount=F1_DEPTH)


solid = f1.part
